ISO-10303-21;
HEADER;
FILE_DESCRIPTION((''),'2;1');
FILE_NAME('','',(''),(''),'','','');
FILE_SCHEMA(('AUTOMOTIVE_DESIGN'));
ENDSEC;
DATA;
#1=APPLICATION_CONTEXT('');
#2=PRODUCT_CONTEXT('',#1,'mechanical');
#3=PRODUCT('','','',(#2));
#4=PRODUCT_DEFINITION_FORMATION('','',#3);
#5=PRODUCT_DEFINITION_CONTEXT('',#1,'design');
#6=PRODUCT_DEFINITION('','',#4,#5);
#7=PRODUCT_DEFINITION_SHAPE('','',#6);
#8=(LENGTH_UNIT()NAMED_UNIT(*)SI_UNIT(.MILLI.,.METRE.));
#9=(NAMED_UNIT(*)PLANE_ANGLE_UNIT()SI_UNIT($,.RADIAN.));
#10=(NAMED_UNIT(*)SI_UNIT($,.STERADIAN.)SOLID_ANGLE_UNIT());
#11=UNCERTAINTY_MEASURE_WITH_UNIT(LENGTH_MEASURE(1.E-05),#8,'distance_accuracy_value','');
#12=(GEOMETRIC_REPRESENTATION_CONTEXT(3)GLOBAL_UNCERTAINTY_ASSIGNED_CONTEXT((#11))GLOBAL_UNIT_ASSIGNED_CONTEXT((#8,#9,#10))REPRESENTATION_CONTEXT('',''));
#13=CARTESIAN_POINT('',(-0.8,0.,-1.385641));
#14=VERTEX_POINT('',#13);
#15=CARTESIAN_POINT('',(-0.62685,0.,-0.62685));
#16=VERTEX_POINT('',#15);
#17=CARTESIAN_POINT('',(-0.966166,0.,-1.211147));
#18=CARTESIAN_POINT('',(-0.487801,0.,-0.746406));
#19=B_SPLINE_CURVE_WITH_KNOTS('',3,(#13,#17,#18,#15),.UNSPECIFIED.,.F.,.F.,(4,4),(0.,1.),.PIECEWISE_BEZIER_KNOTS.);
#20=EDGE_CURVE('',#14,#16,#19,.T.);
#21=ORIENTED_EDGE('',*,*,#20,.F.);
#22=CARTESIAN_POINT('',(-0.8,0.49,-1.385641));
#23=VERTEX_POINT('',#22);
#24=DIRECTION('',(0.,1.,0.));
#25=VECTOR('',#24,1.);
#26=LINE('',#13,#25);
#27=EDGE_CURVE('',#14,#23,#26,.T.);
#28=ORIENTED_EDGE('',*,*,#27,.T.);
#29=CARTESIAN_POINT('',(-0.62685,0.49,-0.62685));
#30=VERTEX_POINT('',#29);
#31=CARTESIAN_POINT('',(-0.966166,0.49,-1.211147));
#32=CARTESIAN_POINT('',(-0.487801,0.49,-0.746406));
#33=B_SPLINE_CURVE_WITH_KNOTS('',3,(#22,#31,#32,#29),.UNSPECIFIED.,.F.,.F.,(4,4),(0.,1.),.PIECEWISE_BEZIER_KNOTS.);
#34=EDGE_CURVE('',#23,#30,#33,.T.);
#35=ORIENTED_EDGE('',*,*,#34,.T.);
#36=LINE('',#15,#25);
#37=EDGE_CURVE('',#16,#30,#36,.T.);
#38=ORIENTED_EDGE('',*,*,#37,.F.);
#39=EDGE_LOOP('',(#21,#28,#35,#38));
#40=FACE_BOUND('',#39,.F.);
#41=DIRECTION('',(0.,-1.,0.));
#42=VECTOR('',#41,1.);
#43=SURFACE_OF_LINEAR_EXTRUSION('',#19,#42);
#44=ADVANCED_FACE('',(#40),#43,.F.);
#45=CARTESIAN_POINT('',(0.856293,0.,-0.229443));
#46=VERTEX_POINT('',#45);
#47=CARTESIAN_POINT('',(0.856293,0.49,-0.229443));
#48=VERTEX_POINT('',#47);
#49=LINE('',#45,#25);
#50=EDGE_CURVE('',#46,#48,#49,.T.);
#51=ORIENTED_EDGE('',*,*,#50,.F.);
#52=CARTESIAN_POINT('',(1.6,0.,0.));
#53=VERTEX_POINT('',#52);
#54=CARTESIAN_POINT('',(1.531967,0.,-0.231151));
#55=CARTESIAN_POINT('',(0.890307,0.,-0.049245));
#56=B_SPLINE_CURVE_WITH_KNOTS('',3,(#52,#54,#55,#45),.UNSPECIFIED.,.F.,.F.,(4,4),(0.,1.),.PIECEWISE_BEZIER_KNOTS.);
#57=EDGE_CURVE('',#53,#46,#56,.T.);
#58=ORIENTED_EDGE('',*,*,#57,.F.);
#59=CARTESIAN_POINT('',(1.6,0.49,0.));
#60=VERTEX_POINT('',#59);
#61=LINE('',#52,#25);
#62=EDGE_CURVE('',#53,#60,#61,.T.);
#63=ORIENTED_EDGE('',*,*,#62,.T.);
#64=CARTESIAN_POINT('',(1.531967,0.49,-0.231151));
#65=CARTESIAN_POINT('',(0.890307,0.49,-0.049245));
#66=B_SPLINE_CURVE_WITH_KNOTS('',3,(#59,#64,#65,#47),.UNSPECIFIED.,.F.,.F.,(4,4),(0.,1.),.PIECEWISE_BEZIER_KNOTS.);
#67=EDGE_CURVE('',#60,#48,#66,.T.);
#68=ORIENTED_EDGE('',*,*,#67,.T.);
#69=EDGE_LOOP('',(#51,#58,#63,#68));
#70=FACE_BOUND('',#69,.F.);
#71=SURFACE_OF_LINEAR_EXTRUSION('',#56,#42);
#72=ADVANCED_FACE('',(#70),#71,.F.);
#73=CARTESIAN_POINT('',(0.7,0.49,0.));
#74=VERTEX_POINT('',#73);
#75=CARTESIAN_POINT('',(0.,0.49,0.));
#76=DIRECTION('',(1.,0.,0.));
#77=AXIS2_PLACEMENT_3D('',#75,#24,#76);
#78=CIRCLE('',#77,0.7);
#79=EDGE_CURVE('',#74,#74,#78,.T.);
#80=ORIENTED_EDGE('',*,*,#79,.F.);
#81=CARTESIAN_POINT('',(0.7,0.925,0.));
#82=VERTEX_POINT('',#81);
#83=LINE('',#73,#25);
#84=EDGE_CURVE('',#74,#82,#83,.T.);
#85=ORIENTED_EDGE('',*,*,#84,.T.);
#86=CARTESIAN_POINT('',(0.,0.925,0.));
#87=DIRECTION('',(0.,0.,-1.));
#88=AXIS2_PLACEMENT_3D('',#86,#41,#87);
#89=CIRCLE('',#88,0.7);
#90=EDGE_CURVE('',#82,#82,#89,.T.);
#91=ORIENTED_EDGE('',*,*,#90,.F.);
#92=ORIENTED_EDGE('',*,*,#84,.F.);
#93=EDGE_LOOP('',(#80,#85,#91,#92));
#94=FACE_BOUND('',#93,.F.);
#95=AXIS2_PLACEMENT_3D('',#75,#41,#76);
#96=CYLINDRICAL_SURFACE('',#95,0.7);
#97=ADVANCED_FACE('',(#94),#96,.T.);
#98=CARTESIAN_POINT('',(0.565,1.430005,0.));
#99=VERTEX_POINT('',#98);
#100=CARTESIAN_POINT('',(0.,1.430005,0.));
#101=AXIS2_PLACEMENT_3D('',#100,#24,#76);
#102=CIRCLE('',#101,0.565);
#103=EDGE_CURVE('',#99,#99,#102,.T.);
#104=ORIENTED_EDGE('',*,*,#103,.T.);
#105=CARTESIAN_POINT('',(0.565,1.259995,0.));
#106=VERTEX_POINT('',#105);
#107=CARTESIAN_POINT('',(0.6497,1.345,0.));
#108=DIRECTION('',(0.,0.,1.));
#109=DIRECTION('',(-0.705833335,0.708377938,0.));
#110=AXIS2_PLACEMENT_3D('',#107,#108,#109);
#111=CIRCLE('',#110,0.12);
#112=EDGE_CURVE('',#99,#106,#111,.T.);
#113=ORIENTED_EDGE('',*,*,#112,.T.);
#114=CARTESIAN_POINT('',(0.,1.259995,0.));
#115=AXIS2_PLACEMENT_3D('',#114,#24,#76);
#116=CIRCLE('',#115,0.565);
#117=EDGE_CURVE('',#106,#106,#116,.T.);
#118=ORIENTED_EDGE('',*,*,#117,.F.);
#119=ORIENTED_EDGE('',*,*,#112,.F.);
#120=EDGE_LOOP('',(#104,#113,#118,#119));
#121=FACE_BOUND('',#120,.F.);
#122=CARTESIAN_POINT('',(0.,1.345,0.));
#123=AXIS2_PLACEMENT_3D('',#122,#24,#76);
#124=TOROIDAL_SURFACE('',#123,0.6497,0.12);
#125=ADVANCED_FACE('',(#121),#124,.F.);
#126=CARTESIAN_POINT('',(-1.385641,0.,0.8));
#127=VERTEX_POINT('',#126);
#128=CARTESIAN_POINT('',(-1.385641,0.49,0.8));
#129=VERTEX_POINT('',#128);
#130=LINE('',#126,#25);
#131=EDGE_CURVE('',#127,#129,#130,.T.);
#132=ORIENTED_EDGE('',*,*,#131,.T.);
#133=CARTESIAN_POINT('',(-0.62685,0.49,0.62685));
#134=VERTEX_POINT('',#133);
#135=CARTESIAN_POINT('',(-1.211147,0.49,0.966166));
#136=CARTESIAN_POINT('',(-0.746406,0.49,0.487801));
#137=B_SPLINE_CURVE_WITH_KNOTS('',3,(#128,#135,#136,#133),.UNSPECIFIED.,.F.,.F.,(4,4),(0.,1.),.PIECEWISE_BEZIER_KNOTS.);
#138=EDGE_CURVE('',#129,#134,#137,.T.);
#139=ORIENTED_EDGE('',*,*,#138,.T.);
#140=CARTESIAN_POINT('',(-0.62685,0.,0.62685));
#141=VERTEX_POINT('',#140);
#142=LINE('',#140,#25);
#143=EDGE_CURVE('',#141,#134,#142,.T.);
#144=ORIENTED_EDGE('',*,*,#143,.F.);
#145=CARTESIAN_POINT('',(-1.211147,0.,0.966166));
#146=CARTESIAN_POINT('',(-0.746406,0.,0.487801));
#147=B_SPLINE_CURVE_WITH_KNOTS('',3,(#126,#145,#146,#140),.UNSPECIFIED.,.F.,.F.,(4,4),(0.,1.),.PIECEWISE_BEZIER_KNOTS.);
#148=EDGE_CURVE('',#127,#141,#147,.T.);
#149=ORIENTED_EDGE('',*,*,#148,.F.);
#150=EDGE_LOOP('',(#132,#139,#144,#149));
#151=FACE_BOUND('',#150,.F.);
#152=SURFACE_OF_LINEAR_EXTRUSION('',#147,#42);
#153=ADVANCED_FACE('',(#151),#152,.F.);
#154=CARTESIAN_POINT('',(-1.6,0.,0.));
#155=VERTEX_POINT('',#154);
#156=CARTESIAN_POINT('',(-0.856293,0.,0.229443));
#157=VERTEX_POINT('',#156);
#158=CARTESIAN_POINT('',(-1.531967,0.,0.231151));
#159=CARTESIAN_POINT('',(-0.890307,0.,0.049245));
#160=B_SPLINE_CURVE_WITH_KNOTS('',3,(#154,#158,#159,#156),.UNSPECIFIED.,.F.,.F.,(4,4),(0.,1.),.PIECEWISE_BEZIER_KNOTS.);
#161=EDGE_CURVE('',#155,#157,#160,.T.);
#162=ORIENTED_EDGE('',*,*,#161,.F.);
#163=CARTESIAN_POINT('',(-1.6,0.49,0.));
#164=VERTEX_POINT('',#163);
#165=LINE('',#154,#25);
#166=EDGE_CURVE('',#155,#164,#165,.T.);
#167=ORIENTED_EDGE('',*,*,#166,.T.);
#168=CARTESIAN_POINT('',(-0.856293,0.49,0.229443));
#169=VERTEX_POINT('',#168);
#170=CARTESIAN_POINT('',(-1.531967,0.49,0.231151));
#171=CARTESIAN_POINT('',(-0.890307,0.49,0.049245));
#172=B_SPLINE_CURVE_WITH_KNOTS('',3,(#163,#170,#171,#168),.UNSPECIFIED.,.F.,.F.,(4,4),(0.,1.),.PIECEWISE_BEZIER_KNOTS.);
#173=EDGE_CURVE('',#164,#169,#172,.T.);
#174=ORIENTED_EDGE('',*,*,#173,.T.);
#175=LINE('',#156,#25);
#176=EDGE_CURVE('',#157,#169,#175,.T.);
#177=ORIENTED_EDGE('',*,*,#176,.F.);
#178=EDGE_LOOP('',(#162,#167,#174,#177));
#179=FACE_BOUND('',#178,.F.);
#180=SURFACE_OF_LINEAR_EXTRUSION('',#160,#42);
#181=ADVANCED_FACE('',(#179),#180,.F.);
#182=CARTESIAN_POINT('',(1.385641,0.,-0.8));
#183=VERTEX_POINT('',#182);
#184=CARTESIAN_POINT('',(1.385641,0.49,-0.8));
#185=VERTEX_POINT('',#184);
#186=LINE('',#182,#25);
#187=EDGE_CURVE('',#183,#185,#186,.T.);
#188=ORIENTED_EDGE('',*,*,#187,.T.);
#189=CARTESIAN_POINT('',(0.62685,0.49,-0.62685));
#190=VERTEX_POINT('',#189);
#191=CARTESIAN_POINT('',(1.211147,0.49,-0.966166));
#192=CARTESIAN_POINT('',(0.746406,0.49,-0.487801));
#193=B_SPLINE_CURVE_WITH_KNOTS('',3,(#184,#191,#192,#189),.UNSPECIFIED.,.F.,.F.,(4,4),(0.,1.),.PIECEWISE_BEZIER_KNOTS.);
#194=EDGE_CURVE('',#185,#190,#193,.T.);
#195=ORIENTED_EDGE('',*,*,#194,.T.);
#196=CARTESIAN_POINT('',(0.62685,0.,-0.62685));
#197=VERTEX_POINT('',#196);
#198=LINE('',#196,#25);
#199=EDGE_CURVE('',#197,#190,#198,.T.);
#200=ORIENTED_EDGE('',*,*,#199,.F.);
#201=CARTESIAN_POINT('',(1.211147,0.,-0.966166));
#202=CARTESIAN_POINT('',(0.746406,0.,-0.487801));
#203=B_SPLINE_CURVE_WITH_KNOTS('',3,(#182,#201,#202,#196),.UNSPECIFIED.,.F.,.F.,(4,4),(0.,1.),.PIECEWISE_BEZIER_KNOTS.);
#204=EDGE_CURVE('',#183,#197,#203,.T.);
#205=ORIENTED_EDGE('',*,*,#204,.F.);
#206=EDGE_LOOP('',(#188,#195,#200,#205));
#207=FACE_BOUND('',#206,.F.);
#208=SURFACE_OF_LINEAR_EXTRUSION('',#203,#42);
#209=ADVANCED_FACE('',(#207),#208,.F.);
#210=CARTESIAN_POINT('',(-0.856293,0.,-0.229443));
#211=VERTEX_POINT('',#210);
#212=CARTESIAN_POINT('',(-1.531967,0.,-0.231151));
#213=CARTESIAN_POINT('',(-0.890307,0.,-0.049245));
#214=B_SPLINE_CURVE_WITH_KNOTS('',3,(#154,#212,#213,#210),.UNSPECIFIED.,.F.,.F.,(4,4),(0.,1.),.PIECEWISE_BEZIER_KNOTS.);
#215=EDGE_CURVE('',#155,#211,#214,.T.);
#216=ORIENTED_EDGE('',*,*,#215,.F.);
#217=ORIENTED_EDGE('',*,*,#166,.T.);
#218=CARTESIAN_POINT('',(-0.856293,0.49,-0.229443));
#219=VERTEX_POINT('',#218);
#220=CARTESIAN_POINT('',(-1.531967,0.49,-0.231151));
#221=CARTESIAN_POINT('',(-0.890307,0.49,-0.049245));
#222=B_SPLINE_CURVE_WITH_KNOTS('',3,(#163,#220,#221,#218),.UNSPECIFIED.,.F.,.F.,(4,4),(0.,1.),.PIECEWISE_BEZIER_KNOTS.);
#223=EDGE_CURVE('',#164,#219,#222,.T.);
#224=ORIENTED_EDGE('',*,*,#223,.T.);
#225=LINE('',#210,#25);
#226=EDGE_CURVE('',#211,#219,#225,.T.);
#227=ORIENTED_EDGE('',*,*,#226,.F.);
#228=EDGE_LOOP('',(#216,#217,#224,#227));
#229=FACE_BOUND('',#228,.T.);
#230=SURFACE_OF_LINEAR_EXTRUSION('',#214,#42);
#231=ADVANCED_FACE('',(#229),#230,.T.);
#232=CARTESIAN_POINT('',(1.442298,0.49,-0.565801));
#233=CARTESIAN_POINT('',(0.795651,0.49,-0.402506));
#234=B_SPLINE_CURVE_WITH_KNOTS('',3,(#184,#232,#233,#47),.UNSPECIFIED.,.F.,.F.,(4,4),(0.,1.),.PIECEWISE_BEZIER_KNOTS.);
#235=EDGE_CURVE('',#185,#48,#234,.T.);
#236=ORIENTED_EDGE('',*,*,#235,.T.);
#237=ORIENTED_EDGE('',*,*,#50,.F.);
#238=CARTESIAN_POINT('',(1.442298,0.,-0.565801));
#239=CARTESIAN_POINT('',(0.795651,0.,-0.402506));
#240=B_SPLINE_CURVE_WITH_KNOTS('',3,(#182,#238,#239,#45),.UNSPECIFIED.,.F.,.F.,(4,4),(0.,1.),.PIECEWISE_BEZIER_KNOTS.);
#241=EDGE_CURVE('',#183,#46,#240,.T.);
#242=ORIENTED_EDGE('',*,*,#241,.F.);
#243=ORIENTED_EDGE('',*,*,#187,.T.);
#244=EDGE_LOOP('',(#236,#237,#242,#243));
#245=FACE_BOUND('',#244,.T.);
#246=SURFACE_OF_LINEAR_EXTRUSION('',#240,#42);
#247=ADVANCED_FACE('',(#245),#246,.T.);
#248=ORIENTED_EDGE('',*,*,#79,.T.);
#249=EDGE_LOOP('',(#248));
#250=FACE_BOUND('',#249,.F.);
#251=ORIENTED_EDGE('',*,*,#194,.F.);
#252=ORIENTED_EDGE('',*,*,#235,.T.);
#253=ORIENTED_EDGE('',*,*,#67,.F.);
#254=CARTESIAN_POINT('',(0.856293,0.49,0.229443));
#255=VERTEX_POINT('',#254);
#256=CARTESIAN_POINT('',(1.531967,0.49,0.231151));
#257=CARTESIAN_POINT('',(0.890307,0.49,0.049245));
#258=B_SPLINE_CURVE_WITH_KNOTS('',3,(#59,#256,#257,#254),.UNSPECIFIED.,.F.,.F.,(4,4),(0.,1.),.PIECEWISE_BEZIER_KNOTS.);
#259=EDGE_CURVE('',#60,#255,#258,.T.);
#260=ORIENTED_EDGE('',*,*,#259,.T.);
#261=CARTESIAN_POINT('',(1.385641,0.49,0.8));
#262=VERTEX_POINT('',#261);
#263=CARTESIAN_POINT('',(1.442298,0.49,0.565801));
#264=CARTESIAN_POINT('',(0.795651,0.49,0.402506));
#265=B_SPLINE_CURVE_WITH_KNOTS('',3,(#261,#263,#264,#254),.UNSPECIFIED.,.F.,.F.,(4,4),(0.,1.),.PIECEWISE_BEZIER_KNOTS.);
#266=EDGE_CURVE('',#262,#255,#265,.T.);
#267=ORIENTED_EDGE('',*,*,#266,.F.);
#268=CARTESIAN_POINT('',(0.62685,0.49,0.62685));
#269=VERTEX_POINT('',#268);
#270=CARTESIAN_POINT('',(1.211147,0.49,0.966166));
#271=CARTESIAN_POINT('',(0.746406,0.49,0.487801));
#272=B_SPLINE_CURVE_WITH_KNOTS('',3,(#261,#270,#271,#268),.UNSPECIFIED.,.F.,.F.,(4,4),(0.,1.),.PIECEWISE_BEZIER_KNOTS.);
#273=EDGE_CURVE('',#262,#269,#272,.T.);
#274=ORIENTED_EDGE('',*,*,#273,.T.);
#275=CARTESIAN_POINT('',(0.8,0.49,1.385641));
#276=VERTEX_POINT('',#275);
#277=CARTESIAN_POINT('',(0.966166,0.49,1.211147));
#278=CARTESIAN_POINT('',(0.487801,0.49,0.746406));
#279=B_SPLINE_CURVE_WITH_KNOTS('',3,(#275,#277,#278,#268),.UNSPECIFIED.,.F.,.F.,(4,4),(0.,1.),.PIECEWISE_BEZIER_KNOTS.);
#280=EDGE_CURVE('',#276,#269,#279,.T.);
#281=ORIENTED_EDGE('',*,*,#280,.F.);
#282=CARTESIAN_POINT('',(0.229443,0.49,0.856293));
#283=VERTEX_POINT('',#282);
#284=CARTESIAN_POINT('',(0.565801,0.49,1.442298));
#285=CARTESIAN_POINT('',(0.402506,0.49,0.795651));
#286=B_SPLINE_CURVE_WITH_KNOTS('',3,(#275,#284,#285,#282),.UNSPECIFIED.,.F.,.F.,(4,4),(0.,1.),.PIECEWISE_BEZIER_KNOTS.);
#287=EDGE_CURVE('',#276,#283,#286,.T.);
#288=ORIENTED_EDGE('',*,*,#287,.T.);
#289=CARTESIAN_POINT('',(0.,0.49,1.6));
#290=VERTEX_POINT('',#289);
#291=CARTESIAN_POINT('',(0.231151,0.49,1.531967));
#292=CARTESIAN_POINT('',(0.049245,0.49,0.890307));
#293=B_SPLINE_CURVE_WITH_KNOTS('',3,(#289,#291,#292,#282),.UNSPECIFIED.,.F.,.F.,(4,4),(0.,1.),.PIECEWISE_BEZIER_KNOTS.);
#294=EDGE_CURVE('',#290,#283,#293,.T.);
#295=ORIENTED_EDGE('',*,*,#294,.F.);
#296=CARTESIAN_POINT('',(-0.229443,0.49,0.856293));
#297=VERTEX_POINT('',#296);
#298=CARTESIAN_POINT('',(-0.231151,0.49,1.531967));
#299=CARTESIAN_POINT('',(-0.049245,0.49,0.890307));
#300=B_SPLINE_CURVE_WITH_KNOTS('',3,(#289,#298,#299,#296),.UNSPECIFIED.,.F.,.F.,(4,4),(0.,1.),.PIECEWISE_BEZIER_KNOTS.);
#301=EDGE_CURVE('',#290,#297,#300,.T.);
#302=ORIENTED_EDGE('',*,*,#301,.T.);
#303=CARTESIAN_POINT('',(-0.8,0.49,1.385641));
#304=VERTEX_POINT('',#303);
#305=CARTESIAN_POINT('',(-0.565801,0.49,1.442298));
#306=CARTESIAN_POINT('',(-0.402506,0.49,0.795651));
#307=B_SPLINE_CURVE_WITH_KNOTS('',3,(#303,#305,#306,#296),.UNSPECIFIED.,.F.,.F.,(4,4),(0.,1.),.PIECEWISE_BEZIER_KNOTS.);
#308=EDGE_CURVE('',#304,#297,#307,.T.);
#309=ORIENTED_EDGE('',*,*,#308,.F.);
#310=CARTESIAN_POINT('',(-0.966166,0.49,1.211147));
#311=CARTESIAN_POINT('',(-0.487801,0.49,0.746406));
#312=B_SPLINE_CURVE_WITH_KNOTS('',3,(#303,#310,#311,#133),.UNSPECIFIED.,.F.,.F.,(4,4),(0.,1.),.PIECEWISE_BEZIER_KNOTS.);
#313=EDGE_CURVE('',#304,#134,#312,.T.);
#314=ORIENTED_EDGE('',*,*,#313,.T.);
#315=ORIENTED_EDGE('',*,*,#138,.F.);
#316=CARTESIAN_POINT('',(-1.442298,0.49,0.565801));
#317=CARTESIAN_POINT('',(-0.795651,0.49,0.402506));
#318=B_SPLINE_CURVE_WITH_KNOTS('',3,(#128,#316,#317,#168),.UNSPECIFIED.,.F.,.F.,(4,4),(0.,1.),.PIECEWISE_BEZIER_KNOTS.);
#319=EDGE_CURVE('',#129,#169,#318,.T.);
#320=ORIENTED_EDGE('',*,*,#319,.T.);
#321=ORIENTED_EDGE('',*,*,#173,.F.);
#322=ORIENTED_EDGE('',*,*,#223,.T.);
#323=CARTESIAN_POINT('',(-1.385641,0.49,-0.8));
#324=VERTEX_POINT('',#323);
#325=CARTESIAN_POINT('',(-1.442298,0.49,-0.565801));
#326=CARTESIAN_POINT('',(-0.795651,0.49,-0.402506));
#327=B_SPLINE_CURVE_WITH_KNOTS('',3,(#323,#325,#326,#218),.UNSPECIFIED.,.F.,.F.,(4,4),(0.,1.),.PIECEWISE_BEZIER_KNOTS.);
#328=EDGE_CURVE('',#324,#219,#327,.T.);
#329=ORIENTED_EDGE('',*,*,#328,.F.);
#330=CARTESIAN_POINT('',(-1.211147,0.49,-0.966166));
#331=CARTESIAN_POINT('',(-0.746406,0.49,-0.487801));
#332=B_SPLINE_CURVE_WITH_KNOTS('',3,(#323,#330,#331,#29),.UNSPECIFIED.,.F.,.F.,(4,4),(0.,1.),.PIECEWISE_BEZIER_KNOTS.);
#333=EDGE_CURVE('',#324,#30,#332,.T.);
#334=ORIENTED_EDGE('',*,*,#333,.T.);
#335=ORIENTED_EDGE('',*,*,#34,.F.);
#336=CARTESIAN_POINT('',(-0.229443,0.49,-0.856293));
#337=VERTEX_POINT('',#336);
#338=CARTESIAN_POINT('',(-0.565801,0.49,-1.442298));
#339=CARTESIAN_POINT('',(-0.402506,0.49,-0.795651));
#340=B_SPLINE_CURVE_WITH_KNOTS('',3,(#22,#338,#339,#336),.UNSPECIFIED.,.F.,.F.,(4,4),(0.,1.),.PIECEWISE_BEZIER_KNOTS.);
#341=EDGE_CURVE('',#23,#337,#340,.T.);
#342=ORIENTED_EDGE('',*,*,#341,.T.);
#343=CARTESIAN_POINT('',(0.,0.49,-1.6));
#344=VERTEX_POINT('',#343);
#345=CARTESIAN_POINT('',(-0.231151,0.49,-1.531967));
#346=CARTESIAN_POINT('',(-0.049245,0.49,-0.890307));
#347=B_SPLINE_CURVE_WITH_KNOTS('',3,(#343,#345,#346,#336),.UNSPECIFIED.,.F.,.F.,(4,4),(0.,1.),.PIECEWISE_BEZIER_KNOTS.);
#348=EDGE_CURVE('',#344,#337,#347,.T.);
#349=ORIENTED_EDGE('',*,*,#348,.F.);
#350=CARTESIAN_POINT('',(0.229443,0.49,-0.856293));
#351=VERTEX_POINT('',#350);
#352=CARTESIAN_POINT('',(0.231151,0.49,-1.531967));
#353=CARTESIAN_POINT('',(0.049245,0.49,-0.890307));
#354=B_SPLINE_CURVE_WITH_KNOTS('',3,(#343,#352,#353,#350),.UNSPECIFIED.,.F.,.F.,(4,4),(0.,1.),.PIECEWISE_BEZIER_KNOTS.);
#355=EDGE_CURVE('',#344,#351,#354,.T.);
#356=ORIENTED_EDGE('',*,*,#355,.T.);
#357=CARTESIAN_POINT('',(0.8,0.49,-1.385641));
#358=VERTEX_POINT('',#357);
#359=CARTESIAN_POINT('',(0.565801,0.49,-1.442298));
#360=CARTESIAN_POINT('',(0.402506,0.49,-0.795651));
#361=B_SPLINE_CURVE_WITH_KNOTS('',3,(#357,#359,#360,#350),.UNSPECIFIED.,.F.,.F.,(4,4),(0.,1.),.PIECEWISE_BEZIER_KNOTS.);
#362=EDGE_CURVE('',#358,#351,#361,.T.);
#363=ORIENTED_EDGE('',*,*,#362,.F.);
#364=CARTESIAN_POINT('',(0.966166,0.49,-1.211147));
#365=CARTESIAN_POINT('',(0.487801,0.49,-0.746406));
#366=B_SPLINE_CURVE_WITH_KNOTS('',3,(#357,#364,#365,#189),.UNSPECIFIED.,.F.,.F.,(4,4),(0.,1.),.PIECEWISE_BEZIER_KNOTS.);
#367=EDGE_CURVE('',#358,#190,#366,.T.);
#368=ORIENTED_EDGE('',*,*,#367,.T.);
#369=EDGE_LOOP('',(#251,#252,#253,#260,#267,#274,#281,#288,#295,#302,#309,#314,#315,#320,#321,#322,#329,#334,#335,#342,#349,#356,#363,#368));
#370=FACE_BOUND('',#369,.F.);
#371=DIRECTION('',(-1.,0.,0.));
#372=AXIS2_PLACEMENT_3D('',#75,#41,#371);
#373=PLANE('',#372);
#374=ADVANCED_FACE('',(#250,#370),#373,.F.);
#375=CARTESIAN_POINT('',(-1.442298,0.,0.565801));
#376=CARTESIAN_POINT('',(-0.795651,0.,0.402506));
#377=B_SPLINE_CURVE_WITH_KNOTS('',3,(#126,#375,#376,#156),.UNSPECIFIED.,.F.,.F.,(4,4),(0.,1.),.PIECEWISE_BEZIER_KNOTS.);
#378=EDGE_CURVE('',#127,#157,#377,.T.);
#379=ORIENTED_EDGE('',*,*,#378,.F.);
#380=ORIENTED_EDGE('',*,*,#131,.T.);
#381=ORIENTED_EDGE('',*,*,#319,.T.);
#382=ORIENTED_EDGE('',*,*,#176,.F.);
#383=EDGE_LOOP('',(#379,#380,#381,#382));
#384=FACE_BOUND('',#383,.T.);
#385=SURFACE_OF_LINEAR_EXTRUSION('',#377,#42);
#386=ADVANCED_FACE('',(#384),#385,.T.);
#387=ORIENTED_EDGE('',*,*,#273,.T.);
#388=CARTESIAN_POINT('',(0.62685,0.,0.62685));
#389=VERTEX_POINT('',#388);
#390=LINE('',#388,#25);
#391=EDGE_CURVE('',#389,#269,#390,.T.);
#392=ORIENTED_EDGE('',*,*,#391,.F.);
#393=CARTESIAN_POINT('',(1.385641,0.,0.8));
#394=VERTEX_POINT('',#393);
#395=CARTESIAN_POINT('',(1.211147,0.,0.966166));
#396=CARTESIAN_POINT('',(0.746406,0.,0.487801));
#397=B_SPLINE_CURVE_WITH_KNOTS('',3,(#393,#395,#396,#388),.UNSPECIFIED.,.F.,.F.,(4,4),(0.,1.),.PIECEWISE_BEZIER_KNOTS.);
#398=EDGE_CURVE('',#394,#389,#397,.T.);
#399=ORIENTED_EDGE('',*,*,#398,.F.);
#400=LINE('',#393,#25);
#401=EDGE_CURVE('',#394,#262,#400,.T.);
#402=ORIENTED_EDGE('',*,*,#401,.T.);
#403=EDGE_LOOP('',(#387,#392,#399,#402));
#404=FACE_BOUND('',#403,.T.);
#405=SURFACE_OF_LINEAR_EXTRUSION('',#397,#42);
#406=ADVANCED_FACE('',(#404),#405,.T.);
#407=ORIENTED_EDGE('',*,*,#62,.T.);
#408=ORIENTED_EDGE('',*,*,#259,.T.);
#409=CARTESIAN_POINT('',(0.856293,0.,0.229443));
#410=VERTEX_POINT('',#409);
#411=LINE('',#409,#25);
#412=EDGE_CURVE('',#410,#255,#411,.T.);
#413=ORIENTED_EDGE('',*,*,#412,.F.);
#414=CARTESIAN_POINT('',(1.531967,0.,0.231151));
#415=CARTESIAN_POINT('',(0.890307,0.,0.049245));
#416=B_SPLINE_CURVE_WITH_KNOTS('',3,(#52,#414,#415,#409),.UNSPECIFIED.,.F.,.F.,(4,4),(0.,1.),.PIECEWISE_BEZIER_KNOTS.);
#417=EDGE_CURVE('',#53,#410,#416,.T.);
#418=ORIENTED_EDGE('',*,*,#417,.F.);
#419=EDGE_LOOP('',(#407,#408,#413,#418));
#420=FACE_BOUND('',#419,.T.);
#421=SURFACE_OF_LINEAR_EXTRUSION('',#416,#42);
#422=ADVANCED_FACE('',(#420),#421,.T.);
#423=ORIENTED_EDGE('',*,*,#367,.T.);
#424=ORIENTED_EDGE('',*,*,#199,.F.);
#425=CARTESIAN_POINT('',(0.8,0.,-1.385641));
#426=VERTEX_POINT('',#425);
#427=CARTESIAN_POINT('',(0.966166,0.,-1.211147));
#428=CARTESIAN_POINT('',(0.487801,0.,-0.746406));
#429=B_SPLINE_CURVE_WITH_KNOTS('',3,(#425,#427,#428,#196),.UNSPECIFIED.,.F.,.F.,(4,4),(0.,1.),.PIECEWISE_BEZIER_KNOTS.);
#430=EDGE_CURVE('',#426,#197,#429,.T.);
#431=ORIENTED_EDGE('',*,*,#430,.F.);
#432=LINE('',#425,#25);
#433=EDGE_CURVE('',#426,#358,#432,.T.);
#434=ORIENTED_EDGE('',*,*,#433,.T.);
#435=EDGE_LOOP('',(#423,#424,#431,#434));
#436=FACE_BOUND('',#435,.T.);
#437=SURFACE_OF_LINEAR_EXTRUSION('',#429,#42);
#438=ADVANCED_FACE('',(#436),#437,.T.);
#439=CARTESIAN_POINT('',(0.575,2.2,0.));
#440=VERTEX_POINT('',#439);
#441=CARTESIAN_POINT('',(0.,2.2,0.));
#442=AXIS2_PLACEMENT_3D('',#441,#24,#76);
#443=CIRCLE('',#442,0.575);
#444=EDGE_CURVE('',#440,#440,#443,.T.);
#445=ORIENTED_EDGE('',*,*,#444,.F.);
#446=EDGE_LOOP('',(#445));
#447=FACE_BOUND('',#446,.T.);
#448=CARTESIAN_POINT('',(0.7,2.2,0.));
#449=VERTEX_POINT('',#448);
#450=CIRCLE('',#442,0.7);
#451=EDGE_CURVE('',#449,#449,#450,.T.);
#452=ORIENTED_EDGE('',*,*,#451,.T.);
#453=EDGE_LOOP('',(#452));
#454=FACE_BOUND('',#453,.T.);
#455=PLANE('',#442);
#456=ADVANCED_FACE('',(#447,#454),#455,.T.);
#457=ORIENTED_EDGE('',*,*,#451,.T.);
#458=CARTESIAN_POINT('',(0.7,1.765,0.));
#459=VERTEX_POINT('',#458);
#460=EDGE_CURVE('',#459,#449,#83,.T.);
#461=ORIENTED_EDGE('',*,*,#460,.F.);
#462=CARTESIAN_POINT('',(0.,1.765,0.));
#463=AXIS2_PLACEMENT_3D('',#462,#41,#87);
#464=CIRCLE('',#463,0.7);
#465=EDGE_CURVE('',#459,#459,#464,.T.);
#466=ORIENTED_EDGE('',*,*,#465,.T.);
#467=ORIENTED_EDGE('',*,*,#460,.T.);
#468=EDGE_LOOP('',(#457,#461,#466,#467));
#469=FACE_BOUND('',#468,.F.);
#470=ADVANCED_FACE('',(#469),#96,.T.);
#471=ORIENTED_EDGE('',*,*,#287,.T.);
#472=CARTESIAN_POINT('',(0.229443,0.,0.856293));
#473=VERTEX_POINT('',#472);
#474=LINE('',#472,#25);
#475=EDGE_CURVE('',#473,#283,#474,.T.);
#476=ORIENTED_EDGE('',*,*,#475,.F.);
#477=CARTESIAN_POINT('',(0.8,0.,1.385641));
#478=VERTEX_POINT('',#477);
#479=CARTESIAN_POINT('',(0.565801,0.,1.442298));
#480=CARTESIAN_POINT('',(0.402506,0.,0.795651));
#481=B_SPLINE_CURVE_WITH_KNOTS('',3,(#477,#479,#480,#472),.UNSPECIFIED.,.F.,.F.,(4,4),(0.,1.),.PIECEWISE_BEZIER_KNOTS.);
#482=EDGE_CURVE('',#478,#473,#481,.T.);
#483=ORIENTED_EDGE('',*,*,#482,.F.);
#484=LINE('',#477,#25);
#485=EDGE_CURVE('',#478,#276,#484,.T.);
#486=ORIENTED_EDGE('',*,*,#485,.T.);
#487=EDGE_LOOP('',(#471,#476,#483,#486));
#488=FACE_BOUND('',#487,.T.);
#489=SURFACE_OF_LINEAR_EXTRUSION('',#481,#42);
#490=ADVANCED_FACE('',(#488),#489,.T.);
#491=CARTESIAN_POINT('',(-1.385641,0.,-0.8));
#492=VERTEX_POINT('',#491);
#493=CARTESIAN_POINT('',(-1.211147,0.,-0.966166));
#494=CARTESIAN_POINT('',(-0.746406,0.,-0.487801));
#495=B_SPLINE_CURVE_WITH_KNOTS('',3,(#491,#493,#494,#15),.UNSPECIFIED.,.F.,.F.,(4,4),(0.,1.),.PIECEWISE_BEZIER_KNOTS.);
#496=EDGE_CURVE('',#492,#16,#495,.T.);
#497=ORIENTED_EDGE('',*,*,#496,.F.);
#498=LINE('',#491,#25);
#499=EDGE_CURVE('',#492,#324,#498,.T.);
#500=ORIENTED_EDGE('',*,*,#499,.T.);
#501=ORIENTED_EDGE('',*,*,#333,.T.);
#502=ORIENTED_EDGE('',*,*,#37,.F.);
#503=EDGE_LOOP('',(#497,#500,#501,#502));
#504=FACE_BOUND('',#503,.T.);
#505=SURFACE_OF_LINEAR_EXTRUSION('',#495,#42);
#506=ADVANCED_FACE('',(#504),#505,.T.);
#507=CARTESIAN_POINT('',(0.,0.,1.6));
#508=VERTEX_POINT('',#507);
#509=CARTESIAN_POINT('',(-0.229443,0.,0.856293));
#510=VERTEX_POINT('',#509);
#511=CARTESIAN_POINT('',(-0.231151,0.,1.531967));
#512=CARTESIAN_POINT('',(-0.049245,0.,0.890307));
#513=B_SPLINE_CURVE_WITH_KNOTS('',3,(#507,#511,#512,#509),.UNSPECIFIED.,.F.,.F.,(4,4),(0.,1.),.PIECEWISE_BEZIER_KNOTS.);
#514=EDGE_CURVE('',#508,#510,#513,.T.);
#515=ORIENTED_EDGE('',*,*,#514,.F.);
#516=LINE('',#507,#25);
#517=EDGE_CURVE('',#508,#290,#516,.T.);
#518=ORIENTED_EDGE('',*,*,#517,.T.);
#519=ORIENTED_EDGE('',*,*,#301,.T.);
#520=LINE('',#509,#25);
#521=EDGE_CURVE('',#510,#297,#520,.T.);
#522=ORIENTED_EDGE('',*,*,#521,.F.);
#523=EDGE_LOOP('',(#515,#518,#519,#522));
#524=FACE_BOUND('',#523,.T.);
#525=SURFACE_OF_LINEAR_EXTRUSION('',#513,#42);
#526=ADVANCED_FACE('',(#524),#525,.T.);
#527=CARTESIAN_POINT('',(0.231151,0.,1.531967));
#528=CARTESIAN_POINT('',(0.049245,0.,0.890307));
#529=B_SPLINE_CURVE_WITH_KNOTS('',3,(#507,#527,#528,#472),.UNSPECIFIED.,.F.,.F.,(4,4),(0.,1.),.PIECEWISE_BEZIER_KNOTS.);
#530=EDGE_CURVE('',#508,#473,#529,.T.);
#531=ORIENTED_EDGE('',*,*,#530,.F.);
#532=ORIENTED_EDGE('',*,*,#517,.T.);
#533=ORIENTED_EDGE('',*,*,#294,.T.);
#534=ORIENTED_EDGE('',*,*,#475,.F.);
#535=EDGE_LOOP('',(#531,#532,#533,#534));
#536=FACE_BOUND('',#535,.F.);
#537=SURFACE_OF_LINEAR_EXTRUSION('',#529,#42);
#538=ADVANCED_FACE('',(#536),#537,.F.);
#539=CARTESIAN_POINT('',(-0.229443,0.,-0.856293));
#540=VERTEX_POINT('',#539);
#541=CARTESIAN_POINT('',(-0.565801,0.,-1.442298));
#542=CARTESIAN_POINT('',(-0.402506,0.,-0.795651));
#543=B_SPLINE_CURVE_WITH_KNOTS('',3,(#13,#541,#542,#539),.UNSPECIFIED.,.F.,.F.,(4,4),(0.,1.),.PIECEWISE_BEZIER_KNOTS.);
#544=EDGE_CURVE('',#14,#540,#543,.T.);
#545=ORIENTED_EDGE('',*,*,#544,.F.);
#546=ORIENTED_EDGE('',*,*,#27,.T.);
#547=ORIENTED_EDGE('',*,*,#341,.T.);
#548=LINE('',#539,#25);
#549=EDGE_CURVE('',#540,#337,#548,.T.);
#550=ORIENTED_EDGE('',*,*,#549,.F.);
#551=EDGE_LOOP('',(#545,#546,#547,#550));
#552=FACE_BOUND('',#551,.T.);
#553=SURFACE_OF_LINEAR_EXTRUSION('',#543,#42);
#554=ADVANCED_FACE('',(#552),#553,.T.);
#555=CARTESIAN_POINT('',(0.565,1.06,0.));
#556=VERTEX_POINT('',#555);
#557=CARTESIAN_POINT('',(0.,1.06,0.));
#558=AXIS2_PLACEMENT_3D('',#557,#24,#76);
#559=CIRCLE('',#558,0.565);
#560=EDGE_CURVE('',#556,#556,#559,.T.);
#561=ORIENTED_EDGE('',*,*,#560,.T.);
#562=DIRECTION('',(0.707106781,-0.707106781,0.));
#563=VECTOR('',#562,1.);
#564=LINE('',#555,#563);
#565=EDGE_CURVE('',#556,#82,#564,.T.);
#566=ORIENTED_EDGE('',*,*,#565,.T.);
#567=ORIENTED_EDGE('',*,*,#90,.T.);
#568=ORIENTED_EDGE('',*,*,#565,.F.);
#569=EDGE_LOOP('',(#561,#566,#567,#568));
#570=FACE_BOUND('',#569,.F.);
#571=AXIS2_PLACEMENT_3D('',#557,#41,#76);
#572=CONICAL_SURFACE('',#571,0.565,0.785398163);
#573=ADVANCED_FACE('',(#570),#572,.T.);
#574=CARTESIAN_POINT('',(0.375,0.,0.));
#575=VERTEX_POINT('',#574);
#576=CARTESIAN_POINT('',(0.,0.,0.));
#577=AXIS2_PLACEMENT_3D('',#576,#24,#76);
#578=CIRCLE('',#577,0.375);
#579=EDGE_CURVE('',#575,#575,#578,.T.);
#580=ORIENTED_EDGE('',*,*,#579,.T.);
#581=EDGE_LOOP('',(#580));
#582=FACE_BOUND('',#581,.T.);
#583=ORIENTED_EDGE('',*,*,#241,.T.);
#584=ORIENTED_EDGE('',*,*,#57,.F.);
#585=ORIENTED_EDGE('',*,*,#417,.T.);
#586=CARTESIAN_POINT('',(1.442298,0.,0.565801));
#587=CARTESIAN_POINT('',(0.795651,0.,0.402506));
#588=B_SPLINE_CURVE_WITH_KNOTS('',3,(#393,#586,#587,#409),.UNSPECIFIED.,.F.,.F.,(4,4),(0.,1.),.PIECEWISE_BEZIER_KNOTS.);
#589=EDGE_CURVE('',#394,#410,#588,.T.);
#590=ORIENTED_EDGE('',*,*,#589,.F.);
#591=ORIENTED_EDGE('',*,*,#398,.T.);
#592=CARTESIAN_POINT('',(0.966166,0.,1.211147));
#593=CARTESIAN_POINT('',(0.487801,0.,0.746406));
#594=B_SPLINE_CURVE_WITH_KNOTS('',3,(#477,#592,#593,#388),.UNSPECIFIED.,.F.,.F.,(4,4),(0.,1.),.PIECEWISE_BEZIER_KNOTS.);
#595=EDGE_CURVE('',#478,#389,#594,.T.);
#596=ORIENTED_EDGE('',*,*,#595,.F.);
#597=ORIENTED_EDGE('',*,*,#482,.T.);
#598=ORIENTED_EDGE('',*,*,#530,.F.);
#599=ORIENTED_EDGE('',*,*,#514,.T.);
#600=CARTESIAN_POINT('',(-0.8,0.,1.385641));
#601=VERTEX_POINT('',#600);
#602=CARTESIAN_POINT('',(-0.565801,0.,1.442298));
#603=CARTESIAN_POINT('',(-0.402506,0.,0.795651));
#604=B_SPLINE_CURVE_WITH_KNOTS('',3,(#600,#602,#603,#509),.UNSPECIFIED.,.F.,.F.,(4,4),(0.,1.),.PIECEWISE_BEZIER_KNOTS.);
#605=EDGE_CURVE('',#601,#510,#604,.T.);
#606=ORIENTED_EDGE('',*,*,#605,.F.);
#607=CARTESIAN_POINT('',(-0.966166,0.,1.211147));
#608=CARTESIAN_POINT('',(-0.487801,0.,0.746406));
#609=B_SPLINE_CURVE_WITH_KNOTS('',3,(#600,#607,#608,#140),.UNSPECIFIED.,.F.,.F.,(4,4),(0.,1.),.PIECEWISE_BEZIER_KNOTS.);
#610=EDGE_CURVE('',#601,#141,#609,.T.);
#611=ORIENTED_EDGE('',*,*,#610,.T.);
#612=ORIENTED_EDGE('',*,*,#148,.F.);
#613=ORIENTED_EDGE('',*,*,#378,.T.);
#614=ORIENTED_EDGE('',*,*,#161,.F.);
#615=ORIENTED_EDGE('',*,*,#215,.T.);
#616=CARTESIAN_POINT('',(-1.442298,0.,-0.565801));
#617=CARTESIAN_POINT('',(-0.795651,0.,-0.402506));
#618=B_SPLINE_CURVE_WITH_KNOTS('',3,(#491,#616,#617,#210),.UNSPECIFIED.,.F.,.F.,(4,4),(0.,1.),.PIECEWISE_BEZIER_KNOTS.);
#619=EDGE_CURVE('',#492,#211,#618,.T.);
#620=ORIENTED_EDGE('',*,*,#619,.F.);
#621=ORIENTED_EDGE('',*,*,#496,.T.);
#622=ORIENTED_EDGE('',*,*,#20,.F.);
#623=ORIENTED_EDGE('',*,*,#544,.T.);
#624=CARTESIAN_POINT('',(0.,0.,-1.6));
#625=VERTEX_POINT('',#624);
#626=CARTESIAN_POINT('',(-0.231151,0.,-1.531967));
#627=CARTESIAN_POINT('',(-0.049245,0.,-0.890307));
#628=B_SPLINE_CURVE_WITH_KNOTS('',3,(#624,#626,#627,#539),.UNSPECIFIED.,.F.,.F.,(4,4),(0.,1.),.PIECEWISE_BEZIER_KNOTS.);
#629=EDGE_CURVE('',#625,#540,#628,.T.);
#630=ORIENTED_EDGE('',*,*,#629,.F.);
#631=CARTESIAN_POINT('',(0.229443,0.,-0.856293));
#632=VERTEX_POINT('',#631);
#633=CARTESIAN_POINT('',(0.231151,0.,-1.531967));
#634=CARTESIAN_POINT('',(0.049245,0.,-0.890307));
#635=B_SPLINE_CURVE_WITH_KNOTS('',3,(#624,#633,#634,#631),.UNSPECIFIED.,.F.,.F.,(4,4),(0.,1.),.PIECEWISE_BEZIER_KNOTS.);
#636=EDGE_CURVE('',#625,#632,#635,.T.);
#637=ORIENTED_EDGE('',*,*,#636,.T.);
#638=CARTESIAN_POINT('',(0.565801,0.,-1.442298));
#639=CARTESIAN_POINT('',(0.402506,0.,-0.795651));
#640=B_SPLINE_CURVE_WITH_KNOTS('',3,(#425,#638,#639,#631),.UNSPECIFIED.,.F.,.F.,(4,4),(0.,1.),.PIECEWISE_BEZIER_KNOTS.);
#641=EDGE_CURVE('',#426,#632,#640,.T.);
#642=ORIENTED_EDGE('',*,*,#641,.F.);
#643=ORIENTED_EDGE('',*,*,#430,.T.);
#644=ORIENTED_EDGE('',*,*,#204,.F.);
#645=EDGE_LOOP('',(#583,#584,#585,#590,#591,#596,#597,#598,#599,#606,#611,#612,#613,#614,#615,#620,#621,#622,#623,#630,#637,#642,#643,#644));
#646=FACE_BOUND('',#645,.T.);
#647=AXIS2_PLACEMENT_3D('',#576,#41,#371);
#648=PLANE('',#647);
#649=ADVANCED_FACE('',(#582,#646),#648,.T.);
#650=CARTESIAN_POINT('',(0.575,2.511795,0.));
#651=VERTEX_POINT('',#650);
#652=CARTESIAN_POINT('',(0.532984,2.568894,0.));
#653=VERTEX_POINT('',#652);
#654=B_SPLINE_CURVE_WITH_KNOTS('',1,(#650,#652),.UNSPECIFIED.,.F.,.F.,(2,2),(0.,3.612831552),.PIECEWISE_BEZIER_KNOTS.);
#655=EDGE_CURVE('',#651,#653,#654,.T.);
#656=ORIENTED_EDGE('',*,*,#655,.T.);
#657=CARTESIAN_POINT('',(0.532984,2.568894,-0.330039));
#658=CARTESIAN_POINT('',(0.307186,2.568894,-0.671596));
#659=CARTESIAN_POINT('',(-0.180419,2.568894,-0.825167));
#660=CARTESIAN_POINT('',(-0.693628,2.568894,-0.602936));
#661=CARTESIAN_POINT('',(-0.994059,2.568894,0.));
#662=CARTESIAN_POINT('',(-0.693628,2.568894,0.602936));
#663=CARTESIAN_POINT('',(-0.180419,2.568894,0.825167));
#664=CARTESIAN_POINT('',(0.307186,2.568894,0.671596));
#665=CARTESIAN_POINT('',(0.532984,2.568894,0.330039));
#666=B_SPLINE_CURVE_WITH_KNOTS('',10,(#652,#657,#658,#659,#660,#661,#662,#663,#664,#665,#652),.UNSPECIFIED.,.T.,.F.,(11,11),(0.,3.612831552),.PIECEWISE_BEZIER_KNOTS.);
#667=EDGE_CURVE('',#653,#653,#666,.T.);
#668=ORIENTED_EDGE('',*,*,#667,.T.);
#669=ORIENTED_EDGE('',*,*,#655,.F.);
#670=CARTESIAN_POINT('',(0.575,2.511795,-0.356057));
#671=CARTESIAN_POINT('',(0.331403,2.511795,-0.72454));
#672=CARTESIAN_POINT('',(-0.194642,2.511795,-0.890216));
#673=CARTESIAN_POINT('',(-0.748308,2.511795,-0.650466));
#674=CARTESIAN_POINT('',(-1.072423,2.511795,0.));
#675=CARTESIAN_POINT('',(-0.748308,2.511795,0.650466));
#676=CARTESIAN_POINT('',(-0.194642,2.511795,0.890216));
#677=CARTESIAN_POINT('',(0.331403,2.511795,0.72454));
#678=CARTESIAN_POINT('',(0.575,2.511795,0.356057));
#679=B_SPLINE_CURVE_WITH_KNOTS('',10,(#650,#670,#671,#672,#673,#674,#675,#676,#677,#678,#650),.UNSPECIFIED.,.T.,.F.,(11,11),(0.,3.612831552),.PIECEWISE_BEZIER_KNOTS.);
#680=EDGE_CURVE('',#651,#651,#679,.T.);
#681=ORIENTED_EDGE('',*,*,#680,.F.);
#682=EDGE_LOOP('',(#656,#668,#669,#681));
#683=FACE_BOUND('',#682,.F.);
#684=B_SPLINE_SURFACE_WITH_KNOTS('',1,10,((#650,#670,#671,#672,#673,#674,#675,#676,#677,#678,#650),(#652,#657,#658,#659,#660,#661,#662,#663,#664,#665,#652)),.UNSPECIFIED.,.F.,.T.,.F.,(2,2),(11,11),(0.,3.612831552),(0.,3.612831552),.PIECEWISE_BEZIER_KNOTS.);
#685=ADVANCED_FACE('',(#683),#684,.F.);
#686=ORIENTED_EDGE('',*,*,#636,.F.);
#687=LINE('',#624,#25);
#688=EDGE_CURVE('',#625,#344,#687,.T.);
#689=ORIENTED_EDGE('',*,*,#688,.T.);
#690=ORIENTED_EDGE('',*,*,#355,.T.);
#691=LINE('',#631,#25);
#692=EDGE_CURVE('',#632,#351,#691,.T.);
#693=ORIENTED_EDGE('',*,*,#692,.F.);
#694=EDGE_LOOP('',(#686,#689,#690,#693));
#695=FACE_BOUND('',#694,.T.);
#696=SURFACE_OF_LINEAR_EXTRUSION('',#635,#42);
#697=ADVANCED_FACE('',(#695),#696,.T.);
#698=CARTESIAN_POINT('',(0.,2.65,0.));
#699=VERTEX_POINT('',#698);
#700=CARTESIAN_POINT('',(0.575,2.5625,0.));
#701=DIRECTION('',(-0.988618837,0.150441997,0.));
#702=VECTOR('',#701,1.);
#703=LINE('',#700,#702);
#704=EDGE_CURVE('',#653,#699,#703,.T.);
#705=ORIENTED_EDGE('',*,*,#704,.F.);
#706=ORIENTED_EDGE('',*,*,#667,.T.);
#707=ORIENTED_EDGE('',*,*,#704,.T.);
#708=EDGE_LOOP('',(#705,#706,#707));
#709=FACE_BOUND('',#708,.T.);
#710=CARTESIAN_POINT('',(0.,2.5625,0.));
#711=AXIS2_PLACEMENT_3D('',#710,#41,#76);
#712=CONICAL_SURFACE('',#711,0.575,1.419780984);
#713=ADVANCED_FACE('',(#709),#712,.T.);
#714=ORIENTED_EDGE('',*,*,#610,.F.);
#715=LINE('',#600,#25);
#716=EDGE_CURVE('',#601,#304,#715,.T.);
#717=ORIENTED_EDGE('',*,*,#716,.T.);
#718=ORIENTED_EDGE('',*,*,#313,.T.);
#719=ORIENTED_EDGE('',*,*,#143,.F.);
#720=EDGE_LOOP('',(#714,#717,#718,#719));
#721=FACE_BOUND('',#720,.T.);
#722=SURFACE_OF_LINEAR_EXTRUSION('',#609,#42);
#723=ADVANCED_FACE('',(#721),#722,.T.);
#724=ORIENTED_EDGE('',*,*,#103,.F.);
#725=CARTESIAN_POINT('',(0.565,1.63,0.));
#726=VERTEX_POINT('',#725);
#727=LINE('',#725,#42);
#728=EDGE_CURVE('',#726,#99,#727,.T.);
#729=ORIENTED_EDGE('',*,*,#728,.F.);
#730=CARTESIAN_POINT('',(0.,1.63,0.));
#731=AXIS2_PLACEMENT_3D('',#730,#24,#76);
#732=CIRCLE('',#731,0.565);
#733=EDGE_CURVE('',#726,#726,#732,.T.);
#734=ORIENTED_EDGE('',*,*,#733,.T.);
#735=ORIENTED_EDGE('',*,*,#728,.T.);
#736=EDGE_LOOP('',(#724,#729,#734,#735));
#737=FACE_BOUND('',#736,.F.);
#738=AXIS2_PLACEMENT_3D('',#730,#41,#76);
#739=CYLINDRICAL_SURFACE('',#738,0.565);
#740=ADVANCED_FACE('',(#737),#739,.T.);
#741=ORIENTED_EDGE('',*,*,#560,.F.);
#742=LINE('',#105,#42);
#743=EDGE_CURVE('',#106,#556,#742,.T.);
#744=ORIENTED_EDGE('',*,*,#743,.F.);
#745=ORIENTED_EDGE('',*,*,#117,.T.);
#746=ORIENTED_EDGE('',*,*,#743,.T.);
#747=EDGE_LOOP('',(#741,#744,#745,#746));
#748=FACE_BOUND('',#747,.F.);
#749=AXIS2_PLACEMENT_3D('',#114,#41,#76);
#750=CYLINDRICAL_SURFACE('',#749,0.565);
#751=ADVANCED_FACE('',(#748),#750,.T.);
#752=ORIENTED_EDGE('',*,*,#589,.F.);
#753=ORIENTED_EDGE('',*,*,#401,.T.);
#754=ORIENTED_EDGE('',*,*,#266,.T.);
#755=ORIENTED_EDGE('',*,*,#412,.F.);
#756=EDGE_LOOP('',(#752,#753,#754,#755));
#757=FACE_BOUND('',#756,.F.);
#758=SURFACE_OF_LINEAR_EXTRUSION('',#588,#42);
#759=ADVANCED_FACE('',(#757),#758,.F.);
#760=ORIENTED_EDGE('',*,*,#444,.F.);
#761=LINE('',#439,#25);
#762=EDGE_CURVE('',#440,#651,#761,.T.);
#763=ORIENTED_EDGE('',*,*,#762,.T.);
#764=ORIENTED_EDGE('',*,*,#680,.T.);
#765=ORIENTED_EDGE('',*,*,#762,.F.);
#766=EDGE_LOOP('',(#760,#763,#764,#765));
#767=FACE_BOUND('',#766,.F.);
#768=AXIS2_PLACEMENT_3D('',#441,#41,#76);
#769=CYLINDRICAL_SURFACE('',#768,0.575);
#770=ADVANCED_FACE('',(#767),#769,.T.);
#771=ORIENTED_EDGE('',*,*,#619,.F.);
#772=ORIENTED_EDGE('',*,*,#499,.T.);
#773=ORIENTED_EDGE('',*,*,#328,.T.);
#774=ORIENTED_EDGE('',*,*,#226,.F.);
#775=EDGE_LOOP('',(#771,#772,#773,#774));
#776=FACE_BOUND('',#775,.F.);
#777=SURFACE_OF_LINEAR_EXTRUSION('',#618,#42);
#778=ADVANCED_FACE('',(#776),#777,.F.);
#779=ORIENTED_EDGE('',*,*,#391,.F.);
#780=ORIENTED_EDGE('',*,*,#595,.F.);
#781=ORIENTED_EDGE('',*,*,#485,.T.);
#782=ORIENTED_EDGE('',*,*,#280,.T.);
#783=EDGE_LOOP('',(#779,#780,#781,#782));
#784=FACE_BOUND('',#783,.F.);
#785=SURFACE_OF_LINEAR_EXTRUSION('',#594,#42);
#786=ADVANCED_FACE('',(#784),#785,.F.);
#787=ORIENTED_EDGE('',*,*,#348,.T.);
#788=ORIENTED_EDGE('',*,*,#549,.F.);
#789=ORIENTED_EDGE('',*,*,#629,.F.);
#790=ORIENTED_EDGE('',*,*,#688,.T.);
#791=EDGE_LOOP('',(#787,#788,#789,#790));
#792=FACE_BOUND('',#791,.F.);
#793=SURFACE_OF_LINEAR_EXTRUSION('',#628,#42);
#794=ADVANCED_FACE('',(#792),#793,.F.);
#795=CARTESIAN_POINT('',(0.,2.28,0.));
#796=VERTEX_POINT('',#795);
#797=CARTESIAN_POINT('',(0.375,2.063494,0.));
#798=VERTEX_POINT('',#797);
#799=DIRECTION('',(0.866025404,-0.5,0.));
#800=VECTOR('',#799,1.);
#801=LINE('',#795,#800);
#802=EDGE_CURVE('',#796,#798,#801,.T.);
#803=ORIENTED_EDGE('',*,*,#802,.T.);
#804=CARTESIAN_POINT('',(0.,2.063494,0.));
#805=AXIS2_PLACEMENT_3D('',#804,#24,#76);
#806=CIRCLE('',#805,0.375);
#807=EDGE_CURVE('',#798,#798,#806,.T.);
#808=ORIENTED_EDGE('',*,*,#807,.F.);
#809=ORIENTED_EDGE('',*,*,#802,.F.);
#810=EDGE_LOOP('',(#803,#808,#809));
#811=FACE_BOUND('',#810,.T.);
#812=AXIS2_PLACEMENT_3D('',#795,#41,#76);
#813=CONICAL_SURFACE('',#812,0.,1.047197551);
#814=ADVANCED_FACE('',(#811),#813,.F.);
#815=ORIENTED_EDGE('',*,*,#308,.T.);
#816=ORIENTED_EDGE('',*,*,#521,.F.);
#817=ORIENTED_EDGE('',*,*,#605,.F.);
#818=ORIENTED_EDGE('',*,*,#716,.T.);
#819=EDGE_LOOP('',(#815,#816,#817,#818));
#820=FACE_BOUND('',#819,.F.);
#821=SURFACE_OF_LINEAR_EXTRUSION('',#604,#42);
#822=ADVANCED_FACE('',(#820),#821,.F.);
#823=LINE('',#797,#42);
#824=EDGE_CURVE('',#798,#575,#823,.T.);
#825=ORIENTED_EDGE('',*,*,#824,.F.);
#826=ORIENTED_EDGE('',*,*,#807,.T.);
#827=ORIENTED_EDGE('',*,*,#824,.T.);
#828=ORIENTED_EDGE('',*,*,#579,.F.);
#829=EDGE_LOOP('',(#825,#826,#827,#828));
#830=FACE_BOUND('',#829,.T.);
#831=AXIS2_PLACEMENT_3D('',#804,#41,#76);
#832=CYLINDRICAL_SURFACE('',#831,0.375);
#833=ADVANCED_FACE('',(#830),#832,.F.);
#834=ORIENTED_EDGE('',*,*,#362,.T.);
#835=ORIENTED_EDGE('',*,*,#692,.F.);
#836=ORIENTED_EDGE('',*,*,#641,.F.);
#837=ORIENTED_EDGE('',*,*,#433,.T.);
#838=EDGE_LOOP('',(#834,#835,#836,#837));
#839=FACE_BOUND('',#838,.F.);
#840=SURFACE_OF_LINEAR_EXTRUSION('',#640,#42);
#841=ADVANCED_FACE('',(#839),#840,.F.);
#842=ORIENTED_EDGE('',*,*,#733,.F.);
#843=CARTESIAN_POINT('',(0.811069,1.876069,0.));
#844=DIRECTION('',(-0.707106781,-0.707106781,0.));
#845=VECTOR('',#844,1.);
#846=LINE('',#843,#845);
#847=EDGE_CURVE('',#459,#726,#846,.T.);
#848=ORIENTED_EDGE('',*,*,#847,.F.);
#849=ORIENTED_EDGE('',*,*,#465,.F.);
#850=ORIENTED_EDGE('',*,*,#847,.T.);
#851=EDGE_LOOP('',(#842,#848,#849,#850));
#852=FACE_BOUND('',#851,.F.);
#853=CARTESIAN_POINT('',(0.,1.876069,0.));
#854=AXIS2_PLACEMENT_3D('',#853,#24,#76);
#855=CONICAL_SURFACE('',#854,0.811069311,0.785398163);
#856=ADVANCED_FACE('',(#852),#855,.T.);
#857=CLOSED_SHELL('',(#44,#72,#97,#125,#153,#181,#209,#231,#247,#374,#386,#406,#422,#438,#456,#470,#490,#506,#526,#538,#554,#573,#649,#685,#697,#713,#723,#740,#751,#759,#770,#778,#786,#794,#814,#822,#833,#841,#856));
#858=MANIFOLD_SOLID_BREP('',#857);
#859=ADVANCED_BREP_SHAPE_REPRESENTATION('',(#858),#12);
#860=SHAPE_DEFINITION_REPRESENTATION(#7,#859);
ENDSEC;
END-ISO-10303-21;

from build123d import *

# Parameters (mm, degrees)
BOSS_EXTRUDE1_12_TEETH_DEPTH = 0.49
SKETCH2_R                    = 0.7
BOSS_EXTRUDE2_DEPTH          = 1.71
SKETCH3_R                    = 0.575
BOSS_EXTRUDE3_DEPTH          = 0.45
CHAMFER1_SIZE                = 0.0875
CHAMFER1_SIZE2               = 0.575
CHAMFER2_SIZE2               = 0.0425
CHAMFER2_SIZE                = 0.05070529


with BuildPart() as part:
    # Sketch1 → Boss-Extrude1 (12 teeth) (new body)
    with BuildSketch(Plane(origin=(0, 0, 0), x_dir=(1, 0, 0), z_dir=(0, 1, 0))):
        with BuildLine():
            add(Edge.make_bspline(
                [(0, 1.6), (0.231150814, 1.531967472), (0.049245039, 0.890307389), (0.229443083, 0.856293245)],
                knots=[0, 0, 0, 0, 1, 1, 1, 1], degree=3))
            add(Edge.make_bspline(
                [(0.8, 1.385640646), (0.565801259, 1.442298155), (0.40250624, 0.795651335), (0.229443083, 0.856293245)],
                knots=[0, 0, 0, 0, 1, 1, 1, 1], degree=3))
            add(Edge.make_bspline(
                [(0.8, 1.385640646), (0.966166213, 1.211147341), (0.487801149, 0.746406297), (0.626850162, 0.626850162)],
                knots=[0, 0, 0, 0, 1, 1, 1, 1], degree=3))
            add(Edge.make_bspline(
                [(1.385640646, 0.8), (1.211147341, 0.966166213), (0.746406297, 0.487801149), (0.626850162, 0.626850162)],
                knots=[0, 0, 0, 0, 1, 1, 1, 1], degree=3))
            add(Edge.make_bspline(
                [(1.385640646, 0.8), (1.442298155, 0.565801259), (0.795651335, 0.40250624), (0.856293245, 0.229443083)],
                knots=[0, 0, 0, 0, 1, 1, 1, 1], degree=3))
            add(Edge.make_bspline(
                [(1.6, 0), (1.531967472, 0.231150814), (0.890307389, 0.049245039), (0.856293245, 0.229443083)],
                knots=[0, 0, 0, 0, 1, 1, 1, 1], degree=3))
            add(Edge.make_bspline(
                [(1.6, 0), (1.531967472, -0.231150814), (0.890307389, -0.049245039), (0.856293245, -0.229443083)],
                knots=[0, 0, 0, 0, 1, 1, 1, 1], degree=3))
            add(Edge.make_bspline(
                [(1.385640646, -0.8), (1.442298155, -0.565801259), (0.795651335, -0.40250624), (0.856293245, -0.229443083)],
                knots=[0, 0, 0, 0, 1, 1, 1, 1], degree=3))
            add(Edge.make_bspline(
                [(1.385640646, -0.8), (1.211147341, -0.966166213), (0.746406297, -0.487801149), (0.626850162, -0.626850162)],
                knots=[0, 0, 0, 0, 1, 1, 1, 1], degree=3))
            add(Edge.make_bspline(
                [(0.8, -1.385640646), (0.966166213, -1.211147341), (0.487801149, -0.746406297), (0.626850162, -0.626850162)],
                knots=[0, 0, 0, 0, 1, 1, 1, 1], degree=3))
            add(Edge.make_bspline(
                [(0.8, -1.385640646), (0.565801259, -1.442298155), (0.40250624, -0.795651335), (0.229443083, -0.856293245)],
                knots=[0, 0, 0, 0, 1, 1, 1, 1], degree=3))
            add(Edge.make_bspline(
                [(0, -1.6), (0.231150814, -1.531967472), (0.049245039, -0.890307389), (0.229443083, -0.856293245)],
                knots=[0, 0, 0, 0, 1, 1, 1, 1], degree=3))
            add(Edge.make_bspline(
                [(0, -1.6), (-0.231150814, -1.531967472), (-0.049245039, -0.890307389), (-0.229443083, -0.856293245)],
                knots=[0, 0, 0, 0, 1, 1, 1, 1], degree=3))
            add(Edge.make_bspline(
                [(-0.8, -1.385640646), (-0.565801259, -1.442298155), (-0.40250624, -0.795651335), (-0.229443083, -0.856293245)],
                knots=[0, 0, 0, 0, 1, 1, 1, 1], degree=3))
            add(Edge.make_bspline(
                [(-0.8, -1.385640646), (-0.966166213, -1.211147341), (-0.487801149, -0.746406297), (-0.626850162, -0.626850162)],
                knots=[0, 0, 0, 0, 1, 1, 1, 1], degree=3))
            add(Edge.make_bspline(
                [(-1.385640646, -0.8), (-1.211147341, -0.966166213), (-0.746406297, -0.487801149), (-0.626850162, -0.626850162)],
                knots=[0, 0, 0, 0, 1, 1, 1, 1], degree=3))
            add(Edge.make_bspline(
                [(-1.385640646, -0.8), (-1.442298155, -0.565801259), (-0.795651335, -0.40250624), (-0.856293245, -0.229443083)],
                knots=[0, 0, 0, 0, 1, 1, 1, 1], degree=3))
            add(Edge.make_bspline(
                [(-1.6, 0), (-1.531967472, -0.231150814), (-0.890307389, -0.049245039), (-0.856293245, -0.229443083)],
                knots=[0, 0, 0, 0, 1, 1, 1, 1], degree=3))
            add(Edge.make_bspline(
                [(-1.6, 0), (-1.531967472, 0.231150814), (-0.890307389, 0.049245039), (-0.856293245, 0.229443083)],
                knots=[0, 0, 0, 0, 1, 1, 1, 1], degree=3))
            add(Edge.make_bspline(
                [(-1.385640646, 0.8), (-1.442298155, 0.565801259), (-0.795651335, 0.40250624), (-0.856293245, 0.229443083)],
                knots=[0, 0, 0, 0, 1, 1, 1, 1], degree=3))
            add(Edge.make_bspline(
                [(-1.385640646, 0.8), (-1.211147341, 0.966166213), (-0.746406297, 0.487801149), (-0.626850162, 0.626850162)],
                knots=[0, 0, 0, 0, 1, 1, 1, 1], degree=3))
            add(Edge.make_bspline(
                [(-0.8, 1.385640646), (-0.966166213, 1.211147341), (-0.487801149, 0.746406297), (-0.626850162, 0.626850162)],
                knots=[0, 0, 0, 0, 1, 1, 1, 1], degree=3))
            add(Edge.make_bspline(
                [(-0.8, 1.385640646), (-0.565801259, 1.442298155), (-0.40250624, 0.795651335), (-0.229443083, 0.856293245)],
                knots=[0, 0, 0, 0, 1, 1, 1, 1], degree=3))
            add(Edge.make_bspline(
                [(0, 1.6), (-0.231150814, 1.531967472), (-0.049245039, 0.890307389), (-0.229443083, 0.856293245)],
                knots=[0, 0, 0, 0, 1, 1, 1, 1], degree=3))
        make_face()
    extrude(amount=BOSS_EXTRUDE1_12_TEETH_DEPTH)

    # Sketch2 → Boss-Extrude2 (add)
    with BuildSketch(Plane(origin=(0, 0.49, 0), x_dir=(1, 0, 0), z_dir=(0, 1, 0))):
        Circle(SKETCH2_R)
    extrude(amount=BOSS_EXTRUDE2_DEPTH)

    # Sketch3 → Boss-Extrude3 (add)
    with BuildSketch(Plane(origin=(0, 2.2, 0), x_dir=(1, 0, 0), z_dir=(0, 1, 0))):
        Circle(SKETCH3_R)
    extrude(amount=BOSS_EXTRUDE3_DEPTH)

    # Chamfer1
    chamfer1_edges = [part.edges().sort_by_distance(p)[0] for p in [
        (-0.575, 2.65, 0),
    ]]
    chamfer1_side = [part.faces().sort_by_distance(p)[0] for p in [
        (-0.575, 2.425, 0),
    ]]
    chamfer(chamfer1_edges, length=CHAMFER1_SIZE, length2=CHAMFER1_SIZE2, reference=chamfer1_side[0])

    # Chamfer2
    chamfer2_edges = [part.edges().sort_by_distance(p)[0] for p in [
        (-0.575, 2.5625, 0),
    ]]
    chamfer(chamfer2_edges, length=CHAMFER2_SIZE, length2=CHAMFER2_SIZE2)

    # Sketch4 → Cut-Revolve2 (revolve, cut)
    with BuildSketch(Plane.XY):
        with BuildLine():
            Line((0.811069311, 1.876069311), (0.565, 1.63))
            Line((0.565, 1.63), (0.565, 1.430005353))
            ThreePointArc((0.565, 1.430005353), (0.5297, 1.345), (0.565, 1.259994647))
            Line((0.565, 1.259994647), (0.565, 1.06))
            Line((0.565, 1.06), (0.811069311, 0.813930689))
            Line((0.811069311, 0.813930689), (0.811069311, 1.876069311))
        make_face()
    revolve(axis=Axis((0, -1000, 0), (0, 1, 0)), mode=Mode.SUBTRACT)

    # Sketch5 → Cut-Revolve3 (revolve, cut)
    with BuildSketch(Plane.XY):
        Polygon((0, 0), (0, 2.28), (0.375, 2.063493649), (0.375, 0), align=None)
    revolve(axis=Axis((0, -1000, 0), (0, 1, 0)), mode=Mode.SUBTRACT)


solid = part.part
